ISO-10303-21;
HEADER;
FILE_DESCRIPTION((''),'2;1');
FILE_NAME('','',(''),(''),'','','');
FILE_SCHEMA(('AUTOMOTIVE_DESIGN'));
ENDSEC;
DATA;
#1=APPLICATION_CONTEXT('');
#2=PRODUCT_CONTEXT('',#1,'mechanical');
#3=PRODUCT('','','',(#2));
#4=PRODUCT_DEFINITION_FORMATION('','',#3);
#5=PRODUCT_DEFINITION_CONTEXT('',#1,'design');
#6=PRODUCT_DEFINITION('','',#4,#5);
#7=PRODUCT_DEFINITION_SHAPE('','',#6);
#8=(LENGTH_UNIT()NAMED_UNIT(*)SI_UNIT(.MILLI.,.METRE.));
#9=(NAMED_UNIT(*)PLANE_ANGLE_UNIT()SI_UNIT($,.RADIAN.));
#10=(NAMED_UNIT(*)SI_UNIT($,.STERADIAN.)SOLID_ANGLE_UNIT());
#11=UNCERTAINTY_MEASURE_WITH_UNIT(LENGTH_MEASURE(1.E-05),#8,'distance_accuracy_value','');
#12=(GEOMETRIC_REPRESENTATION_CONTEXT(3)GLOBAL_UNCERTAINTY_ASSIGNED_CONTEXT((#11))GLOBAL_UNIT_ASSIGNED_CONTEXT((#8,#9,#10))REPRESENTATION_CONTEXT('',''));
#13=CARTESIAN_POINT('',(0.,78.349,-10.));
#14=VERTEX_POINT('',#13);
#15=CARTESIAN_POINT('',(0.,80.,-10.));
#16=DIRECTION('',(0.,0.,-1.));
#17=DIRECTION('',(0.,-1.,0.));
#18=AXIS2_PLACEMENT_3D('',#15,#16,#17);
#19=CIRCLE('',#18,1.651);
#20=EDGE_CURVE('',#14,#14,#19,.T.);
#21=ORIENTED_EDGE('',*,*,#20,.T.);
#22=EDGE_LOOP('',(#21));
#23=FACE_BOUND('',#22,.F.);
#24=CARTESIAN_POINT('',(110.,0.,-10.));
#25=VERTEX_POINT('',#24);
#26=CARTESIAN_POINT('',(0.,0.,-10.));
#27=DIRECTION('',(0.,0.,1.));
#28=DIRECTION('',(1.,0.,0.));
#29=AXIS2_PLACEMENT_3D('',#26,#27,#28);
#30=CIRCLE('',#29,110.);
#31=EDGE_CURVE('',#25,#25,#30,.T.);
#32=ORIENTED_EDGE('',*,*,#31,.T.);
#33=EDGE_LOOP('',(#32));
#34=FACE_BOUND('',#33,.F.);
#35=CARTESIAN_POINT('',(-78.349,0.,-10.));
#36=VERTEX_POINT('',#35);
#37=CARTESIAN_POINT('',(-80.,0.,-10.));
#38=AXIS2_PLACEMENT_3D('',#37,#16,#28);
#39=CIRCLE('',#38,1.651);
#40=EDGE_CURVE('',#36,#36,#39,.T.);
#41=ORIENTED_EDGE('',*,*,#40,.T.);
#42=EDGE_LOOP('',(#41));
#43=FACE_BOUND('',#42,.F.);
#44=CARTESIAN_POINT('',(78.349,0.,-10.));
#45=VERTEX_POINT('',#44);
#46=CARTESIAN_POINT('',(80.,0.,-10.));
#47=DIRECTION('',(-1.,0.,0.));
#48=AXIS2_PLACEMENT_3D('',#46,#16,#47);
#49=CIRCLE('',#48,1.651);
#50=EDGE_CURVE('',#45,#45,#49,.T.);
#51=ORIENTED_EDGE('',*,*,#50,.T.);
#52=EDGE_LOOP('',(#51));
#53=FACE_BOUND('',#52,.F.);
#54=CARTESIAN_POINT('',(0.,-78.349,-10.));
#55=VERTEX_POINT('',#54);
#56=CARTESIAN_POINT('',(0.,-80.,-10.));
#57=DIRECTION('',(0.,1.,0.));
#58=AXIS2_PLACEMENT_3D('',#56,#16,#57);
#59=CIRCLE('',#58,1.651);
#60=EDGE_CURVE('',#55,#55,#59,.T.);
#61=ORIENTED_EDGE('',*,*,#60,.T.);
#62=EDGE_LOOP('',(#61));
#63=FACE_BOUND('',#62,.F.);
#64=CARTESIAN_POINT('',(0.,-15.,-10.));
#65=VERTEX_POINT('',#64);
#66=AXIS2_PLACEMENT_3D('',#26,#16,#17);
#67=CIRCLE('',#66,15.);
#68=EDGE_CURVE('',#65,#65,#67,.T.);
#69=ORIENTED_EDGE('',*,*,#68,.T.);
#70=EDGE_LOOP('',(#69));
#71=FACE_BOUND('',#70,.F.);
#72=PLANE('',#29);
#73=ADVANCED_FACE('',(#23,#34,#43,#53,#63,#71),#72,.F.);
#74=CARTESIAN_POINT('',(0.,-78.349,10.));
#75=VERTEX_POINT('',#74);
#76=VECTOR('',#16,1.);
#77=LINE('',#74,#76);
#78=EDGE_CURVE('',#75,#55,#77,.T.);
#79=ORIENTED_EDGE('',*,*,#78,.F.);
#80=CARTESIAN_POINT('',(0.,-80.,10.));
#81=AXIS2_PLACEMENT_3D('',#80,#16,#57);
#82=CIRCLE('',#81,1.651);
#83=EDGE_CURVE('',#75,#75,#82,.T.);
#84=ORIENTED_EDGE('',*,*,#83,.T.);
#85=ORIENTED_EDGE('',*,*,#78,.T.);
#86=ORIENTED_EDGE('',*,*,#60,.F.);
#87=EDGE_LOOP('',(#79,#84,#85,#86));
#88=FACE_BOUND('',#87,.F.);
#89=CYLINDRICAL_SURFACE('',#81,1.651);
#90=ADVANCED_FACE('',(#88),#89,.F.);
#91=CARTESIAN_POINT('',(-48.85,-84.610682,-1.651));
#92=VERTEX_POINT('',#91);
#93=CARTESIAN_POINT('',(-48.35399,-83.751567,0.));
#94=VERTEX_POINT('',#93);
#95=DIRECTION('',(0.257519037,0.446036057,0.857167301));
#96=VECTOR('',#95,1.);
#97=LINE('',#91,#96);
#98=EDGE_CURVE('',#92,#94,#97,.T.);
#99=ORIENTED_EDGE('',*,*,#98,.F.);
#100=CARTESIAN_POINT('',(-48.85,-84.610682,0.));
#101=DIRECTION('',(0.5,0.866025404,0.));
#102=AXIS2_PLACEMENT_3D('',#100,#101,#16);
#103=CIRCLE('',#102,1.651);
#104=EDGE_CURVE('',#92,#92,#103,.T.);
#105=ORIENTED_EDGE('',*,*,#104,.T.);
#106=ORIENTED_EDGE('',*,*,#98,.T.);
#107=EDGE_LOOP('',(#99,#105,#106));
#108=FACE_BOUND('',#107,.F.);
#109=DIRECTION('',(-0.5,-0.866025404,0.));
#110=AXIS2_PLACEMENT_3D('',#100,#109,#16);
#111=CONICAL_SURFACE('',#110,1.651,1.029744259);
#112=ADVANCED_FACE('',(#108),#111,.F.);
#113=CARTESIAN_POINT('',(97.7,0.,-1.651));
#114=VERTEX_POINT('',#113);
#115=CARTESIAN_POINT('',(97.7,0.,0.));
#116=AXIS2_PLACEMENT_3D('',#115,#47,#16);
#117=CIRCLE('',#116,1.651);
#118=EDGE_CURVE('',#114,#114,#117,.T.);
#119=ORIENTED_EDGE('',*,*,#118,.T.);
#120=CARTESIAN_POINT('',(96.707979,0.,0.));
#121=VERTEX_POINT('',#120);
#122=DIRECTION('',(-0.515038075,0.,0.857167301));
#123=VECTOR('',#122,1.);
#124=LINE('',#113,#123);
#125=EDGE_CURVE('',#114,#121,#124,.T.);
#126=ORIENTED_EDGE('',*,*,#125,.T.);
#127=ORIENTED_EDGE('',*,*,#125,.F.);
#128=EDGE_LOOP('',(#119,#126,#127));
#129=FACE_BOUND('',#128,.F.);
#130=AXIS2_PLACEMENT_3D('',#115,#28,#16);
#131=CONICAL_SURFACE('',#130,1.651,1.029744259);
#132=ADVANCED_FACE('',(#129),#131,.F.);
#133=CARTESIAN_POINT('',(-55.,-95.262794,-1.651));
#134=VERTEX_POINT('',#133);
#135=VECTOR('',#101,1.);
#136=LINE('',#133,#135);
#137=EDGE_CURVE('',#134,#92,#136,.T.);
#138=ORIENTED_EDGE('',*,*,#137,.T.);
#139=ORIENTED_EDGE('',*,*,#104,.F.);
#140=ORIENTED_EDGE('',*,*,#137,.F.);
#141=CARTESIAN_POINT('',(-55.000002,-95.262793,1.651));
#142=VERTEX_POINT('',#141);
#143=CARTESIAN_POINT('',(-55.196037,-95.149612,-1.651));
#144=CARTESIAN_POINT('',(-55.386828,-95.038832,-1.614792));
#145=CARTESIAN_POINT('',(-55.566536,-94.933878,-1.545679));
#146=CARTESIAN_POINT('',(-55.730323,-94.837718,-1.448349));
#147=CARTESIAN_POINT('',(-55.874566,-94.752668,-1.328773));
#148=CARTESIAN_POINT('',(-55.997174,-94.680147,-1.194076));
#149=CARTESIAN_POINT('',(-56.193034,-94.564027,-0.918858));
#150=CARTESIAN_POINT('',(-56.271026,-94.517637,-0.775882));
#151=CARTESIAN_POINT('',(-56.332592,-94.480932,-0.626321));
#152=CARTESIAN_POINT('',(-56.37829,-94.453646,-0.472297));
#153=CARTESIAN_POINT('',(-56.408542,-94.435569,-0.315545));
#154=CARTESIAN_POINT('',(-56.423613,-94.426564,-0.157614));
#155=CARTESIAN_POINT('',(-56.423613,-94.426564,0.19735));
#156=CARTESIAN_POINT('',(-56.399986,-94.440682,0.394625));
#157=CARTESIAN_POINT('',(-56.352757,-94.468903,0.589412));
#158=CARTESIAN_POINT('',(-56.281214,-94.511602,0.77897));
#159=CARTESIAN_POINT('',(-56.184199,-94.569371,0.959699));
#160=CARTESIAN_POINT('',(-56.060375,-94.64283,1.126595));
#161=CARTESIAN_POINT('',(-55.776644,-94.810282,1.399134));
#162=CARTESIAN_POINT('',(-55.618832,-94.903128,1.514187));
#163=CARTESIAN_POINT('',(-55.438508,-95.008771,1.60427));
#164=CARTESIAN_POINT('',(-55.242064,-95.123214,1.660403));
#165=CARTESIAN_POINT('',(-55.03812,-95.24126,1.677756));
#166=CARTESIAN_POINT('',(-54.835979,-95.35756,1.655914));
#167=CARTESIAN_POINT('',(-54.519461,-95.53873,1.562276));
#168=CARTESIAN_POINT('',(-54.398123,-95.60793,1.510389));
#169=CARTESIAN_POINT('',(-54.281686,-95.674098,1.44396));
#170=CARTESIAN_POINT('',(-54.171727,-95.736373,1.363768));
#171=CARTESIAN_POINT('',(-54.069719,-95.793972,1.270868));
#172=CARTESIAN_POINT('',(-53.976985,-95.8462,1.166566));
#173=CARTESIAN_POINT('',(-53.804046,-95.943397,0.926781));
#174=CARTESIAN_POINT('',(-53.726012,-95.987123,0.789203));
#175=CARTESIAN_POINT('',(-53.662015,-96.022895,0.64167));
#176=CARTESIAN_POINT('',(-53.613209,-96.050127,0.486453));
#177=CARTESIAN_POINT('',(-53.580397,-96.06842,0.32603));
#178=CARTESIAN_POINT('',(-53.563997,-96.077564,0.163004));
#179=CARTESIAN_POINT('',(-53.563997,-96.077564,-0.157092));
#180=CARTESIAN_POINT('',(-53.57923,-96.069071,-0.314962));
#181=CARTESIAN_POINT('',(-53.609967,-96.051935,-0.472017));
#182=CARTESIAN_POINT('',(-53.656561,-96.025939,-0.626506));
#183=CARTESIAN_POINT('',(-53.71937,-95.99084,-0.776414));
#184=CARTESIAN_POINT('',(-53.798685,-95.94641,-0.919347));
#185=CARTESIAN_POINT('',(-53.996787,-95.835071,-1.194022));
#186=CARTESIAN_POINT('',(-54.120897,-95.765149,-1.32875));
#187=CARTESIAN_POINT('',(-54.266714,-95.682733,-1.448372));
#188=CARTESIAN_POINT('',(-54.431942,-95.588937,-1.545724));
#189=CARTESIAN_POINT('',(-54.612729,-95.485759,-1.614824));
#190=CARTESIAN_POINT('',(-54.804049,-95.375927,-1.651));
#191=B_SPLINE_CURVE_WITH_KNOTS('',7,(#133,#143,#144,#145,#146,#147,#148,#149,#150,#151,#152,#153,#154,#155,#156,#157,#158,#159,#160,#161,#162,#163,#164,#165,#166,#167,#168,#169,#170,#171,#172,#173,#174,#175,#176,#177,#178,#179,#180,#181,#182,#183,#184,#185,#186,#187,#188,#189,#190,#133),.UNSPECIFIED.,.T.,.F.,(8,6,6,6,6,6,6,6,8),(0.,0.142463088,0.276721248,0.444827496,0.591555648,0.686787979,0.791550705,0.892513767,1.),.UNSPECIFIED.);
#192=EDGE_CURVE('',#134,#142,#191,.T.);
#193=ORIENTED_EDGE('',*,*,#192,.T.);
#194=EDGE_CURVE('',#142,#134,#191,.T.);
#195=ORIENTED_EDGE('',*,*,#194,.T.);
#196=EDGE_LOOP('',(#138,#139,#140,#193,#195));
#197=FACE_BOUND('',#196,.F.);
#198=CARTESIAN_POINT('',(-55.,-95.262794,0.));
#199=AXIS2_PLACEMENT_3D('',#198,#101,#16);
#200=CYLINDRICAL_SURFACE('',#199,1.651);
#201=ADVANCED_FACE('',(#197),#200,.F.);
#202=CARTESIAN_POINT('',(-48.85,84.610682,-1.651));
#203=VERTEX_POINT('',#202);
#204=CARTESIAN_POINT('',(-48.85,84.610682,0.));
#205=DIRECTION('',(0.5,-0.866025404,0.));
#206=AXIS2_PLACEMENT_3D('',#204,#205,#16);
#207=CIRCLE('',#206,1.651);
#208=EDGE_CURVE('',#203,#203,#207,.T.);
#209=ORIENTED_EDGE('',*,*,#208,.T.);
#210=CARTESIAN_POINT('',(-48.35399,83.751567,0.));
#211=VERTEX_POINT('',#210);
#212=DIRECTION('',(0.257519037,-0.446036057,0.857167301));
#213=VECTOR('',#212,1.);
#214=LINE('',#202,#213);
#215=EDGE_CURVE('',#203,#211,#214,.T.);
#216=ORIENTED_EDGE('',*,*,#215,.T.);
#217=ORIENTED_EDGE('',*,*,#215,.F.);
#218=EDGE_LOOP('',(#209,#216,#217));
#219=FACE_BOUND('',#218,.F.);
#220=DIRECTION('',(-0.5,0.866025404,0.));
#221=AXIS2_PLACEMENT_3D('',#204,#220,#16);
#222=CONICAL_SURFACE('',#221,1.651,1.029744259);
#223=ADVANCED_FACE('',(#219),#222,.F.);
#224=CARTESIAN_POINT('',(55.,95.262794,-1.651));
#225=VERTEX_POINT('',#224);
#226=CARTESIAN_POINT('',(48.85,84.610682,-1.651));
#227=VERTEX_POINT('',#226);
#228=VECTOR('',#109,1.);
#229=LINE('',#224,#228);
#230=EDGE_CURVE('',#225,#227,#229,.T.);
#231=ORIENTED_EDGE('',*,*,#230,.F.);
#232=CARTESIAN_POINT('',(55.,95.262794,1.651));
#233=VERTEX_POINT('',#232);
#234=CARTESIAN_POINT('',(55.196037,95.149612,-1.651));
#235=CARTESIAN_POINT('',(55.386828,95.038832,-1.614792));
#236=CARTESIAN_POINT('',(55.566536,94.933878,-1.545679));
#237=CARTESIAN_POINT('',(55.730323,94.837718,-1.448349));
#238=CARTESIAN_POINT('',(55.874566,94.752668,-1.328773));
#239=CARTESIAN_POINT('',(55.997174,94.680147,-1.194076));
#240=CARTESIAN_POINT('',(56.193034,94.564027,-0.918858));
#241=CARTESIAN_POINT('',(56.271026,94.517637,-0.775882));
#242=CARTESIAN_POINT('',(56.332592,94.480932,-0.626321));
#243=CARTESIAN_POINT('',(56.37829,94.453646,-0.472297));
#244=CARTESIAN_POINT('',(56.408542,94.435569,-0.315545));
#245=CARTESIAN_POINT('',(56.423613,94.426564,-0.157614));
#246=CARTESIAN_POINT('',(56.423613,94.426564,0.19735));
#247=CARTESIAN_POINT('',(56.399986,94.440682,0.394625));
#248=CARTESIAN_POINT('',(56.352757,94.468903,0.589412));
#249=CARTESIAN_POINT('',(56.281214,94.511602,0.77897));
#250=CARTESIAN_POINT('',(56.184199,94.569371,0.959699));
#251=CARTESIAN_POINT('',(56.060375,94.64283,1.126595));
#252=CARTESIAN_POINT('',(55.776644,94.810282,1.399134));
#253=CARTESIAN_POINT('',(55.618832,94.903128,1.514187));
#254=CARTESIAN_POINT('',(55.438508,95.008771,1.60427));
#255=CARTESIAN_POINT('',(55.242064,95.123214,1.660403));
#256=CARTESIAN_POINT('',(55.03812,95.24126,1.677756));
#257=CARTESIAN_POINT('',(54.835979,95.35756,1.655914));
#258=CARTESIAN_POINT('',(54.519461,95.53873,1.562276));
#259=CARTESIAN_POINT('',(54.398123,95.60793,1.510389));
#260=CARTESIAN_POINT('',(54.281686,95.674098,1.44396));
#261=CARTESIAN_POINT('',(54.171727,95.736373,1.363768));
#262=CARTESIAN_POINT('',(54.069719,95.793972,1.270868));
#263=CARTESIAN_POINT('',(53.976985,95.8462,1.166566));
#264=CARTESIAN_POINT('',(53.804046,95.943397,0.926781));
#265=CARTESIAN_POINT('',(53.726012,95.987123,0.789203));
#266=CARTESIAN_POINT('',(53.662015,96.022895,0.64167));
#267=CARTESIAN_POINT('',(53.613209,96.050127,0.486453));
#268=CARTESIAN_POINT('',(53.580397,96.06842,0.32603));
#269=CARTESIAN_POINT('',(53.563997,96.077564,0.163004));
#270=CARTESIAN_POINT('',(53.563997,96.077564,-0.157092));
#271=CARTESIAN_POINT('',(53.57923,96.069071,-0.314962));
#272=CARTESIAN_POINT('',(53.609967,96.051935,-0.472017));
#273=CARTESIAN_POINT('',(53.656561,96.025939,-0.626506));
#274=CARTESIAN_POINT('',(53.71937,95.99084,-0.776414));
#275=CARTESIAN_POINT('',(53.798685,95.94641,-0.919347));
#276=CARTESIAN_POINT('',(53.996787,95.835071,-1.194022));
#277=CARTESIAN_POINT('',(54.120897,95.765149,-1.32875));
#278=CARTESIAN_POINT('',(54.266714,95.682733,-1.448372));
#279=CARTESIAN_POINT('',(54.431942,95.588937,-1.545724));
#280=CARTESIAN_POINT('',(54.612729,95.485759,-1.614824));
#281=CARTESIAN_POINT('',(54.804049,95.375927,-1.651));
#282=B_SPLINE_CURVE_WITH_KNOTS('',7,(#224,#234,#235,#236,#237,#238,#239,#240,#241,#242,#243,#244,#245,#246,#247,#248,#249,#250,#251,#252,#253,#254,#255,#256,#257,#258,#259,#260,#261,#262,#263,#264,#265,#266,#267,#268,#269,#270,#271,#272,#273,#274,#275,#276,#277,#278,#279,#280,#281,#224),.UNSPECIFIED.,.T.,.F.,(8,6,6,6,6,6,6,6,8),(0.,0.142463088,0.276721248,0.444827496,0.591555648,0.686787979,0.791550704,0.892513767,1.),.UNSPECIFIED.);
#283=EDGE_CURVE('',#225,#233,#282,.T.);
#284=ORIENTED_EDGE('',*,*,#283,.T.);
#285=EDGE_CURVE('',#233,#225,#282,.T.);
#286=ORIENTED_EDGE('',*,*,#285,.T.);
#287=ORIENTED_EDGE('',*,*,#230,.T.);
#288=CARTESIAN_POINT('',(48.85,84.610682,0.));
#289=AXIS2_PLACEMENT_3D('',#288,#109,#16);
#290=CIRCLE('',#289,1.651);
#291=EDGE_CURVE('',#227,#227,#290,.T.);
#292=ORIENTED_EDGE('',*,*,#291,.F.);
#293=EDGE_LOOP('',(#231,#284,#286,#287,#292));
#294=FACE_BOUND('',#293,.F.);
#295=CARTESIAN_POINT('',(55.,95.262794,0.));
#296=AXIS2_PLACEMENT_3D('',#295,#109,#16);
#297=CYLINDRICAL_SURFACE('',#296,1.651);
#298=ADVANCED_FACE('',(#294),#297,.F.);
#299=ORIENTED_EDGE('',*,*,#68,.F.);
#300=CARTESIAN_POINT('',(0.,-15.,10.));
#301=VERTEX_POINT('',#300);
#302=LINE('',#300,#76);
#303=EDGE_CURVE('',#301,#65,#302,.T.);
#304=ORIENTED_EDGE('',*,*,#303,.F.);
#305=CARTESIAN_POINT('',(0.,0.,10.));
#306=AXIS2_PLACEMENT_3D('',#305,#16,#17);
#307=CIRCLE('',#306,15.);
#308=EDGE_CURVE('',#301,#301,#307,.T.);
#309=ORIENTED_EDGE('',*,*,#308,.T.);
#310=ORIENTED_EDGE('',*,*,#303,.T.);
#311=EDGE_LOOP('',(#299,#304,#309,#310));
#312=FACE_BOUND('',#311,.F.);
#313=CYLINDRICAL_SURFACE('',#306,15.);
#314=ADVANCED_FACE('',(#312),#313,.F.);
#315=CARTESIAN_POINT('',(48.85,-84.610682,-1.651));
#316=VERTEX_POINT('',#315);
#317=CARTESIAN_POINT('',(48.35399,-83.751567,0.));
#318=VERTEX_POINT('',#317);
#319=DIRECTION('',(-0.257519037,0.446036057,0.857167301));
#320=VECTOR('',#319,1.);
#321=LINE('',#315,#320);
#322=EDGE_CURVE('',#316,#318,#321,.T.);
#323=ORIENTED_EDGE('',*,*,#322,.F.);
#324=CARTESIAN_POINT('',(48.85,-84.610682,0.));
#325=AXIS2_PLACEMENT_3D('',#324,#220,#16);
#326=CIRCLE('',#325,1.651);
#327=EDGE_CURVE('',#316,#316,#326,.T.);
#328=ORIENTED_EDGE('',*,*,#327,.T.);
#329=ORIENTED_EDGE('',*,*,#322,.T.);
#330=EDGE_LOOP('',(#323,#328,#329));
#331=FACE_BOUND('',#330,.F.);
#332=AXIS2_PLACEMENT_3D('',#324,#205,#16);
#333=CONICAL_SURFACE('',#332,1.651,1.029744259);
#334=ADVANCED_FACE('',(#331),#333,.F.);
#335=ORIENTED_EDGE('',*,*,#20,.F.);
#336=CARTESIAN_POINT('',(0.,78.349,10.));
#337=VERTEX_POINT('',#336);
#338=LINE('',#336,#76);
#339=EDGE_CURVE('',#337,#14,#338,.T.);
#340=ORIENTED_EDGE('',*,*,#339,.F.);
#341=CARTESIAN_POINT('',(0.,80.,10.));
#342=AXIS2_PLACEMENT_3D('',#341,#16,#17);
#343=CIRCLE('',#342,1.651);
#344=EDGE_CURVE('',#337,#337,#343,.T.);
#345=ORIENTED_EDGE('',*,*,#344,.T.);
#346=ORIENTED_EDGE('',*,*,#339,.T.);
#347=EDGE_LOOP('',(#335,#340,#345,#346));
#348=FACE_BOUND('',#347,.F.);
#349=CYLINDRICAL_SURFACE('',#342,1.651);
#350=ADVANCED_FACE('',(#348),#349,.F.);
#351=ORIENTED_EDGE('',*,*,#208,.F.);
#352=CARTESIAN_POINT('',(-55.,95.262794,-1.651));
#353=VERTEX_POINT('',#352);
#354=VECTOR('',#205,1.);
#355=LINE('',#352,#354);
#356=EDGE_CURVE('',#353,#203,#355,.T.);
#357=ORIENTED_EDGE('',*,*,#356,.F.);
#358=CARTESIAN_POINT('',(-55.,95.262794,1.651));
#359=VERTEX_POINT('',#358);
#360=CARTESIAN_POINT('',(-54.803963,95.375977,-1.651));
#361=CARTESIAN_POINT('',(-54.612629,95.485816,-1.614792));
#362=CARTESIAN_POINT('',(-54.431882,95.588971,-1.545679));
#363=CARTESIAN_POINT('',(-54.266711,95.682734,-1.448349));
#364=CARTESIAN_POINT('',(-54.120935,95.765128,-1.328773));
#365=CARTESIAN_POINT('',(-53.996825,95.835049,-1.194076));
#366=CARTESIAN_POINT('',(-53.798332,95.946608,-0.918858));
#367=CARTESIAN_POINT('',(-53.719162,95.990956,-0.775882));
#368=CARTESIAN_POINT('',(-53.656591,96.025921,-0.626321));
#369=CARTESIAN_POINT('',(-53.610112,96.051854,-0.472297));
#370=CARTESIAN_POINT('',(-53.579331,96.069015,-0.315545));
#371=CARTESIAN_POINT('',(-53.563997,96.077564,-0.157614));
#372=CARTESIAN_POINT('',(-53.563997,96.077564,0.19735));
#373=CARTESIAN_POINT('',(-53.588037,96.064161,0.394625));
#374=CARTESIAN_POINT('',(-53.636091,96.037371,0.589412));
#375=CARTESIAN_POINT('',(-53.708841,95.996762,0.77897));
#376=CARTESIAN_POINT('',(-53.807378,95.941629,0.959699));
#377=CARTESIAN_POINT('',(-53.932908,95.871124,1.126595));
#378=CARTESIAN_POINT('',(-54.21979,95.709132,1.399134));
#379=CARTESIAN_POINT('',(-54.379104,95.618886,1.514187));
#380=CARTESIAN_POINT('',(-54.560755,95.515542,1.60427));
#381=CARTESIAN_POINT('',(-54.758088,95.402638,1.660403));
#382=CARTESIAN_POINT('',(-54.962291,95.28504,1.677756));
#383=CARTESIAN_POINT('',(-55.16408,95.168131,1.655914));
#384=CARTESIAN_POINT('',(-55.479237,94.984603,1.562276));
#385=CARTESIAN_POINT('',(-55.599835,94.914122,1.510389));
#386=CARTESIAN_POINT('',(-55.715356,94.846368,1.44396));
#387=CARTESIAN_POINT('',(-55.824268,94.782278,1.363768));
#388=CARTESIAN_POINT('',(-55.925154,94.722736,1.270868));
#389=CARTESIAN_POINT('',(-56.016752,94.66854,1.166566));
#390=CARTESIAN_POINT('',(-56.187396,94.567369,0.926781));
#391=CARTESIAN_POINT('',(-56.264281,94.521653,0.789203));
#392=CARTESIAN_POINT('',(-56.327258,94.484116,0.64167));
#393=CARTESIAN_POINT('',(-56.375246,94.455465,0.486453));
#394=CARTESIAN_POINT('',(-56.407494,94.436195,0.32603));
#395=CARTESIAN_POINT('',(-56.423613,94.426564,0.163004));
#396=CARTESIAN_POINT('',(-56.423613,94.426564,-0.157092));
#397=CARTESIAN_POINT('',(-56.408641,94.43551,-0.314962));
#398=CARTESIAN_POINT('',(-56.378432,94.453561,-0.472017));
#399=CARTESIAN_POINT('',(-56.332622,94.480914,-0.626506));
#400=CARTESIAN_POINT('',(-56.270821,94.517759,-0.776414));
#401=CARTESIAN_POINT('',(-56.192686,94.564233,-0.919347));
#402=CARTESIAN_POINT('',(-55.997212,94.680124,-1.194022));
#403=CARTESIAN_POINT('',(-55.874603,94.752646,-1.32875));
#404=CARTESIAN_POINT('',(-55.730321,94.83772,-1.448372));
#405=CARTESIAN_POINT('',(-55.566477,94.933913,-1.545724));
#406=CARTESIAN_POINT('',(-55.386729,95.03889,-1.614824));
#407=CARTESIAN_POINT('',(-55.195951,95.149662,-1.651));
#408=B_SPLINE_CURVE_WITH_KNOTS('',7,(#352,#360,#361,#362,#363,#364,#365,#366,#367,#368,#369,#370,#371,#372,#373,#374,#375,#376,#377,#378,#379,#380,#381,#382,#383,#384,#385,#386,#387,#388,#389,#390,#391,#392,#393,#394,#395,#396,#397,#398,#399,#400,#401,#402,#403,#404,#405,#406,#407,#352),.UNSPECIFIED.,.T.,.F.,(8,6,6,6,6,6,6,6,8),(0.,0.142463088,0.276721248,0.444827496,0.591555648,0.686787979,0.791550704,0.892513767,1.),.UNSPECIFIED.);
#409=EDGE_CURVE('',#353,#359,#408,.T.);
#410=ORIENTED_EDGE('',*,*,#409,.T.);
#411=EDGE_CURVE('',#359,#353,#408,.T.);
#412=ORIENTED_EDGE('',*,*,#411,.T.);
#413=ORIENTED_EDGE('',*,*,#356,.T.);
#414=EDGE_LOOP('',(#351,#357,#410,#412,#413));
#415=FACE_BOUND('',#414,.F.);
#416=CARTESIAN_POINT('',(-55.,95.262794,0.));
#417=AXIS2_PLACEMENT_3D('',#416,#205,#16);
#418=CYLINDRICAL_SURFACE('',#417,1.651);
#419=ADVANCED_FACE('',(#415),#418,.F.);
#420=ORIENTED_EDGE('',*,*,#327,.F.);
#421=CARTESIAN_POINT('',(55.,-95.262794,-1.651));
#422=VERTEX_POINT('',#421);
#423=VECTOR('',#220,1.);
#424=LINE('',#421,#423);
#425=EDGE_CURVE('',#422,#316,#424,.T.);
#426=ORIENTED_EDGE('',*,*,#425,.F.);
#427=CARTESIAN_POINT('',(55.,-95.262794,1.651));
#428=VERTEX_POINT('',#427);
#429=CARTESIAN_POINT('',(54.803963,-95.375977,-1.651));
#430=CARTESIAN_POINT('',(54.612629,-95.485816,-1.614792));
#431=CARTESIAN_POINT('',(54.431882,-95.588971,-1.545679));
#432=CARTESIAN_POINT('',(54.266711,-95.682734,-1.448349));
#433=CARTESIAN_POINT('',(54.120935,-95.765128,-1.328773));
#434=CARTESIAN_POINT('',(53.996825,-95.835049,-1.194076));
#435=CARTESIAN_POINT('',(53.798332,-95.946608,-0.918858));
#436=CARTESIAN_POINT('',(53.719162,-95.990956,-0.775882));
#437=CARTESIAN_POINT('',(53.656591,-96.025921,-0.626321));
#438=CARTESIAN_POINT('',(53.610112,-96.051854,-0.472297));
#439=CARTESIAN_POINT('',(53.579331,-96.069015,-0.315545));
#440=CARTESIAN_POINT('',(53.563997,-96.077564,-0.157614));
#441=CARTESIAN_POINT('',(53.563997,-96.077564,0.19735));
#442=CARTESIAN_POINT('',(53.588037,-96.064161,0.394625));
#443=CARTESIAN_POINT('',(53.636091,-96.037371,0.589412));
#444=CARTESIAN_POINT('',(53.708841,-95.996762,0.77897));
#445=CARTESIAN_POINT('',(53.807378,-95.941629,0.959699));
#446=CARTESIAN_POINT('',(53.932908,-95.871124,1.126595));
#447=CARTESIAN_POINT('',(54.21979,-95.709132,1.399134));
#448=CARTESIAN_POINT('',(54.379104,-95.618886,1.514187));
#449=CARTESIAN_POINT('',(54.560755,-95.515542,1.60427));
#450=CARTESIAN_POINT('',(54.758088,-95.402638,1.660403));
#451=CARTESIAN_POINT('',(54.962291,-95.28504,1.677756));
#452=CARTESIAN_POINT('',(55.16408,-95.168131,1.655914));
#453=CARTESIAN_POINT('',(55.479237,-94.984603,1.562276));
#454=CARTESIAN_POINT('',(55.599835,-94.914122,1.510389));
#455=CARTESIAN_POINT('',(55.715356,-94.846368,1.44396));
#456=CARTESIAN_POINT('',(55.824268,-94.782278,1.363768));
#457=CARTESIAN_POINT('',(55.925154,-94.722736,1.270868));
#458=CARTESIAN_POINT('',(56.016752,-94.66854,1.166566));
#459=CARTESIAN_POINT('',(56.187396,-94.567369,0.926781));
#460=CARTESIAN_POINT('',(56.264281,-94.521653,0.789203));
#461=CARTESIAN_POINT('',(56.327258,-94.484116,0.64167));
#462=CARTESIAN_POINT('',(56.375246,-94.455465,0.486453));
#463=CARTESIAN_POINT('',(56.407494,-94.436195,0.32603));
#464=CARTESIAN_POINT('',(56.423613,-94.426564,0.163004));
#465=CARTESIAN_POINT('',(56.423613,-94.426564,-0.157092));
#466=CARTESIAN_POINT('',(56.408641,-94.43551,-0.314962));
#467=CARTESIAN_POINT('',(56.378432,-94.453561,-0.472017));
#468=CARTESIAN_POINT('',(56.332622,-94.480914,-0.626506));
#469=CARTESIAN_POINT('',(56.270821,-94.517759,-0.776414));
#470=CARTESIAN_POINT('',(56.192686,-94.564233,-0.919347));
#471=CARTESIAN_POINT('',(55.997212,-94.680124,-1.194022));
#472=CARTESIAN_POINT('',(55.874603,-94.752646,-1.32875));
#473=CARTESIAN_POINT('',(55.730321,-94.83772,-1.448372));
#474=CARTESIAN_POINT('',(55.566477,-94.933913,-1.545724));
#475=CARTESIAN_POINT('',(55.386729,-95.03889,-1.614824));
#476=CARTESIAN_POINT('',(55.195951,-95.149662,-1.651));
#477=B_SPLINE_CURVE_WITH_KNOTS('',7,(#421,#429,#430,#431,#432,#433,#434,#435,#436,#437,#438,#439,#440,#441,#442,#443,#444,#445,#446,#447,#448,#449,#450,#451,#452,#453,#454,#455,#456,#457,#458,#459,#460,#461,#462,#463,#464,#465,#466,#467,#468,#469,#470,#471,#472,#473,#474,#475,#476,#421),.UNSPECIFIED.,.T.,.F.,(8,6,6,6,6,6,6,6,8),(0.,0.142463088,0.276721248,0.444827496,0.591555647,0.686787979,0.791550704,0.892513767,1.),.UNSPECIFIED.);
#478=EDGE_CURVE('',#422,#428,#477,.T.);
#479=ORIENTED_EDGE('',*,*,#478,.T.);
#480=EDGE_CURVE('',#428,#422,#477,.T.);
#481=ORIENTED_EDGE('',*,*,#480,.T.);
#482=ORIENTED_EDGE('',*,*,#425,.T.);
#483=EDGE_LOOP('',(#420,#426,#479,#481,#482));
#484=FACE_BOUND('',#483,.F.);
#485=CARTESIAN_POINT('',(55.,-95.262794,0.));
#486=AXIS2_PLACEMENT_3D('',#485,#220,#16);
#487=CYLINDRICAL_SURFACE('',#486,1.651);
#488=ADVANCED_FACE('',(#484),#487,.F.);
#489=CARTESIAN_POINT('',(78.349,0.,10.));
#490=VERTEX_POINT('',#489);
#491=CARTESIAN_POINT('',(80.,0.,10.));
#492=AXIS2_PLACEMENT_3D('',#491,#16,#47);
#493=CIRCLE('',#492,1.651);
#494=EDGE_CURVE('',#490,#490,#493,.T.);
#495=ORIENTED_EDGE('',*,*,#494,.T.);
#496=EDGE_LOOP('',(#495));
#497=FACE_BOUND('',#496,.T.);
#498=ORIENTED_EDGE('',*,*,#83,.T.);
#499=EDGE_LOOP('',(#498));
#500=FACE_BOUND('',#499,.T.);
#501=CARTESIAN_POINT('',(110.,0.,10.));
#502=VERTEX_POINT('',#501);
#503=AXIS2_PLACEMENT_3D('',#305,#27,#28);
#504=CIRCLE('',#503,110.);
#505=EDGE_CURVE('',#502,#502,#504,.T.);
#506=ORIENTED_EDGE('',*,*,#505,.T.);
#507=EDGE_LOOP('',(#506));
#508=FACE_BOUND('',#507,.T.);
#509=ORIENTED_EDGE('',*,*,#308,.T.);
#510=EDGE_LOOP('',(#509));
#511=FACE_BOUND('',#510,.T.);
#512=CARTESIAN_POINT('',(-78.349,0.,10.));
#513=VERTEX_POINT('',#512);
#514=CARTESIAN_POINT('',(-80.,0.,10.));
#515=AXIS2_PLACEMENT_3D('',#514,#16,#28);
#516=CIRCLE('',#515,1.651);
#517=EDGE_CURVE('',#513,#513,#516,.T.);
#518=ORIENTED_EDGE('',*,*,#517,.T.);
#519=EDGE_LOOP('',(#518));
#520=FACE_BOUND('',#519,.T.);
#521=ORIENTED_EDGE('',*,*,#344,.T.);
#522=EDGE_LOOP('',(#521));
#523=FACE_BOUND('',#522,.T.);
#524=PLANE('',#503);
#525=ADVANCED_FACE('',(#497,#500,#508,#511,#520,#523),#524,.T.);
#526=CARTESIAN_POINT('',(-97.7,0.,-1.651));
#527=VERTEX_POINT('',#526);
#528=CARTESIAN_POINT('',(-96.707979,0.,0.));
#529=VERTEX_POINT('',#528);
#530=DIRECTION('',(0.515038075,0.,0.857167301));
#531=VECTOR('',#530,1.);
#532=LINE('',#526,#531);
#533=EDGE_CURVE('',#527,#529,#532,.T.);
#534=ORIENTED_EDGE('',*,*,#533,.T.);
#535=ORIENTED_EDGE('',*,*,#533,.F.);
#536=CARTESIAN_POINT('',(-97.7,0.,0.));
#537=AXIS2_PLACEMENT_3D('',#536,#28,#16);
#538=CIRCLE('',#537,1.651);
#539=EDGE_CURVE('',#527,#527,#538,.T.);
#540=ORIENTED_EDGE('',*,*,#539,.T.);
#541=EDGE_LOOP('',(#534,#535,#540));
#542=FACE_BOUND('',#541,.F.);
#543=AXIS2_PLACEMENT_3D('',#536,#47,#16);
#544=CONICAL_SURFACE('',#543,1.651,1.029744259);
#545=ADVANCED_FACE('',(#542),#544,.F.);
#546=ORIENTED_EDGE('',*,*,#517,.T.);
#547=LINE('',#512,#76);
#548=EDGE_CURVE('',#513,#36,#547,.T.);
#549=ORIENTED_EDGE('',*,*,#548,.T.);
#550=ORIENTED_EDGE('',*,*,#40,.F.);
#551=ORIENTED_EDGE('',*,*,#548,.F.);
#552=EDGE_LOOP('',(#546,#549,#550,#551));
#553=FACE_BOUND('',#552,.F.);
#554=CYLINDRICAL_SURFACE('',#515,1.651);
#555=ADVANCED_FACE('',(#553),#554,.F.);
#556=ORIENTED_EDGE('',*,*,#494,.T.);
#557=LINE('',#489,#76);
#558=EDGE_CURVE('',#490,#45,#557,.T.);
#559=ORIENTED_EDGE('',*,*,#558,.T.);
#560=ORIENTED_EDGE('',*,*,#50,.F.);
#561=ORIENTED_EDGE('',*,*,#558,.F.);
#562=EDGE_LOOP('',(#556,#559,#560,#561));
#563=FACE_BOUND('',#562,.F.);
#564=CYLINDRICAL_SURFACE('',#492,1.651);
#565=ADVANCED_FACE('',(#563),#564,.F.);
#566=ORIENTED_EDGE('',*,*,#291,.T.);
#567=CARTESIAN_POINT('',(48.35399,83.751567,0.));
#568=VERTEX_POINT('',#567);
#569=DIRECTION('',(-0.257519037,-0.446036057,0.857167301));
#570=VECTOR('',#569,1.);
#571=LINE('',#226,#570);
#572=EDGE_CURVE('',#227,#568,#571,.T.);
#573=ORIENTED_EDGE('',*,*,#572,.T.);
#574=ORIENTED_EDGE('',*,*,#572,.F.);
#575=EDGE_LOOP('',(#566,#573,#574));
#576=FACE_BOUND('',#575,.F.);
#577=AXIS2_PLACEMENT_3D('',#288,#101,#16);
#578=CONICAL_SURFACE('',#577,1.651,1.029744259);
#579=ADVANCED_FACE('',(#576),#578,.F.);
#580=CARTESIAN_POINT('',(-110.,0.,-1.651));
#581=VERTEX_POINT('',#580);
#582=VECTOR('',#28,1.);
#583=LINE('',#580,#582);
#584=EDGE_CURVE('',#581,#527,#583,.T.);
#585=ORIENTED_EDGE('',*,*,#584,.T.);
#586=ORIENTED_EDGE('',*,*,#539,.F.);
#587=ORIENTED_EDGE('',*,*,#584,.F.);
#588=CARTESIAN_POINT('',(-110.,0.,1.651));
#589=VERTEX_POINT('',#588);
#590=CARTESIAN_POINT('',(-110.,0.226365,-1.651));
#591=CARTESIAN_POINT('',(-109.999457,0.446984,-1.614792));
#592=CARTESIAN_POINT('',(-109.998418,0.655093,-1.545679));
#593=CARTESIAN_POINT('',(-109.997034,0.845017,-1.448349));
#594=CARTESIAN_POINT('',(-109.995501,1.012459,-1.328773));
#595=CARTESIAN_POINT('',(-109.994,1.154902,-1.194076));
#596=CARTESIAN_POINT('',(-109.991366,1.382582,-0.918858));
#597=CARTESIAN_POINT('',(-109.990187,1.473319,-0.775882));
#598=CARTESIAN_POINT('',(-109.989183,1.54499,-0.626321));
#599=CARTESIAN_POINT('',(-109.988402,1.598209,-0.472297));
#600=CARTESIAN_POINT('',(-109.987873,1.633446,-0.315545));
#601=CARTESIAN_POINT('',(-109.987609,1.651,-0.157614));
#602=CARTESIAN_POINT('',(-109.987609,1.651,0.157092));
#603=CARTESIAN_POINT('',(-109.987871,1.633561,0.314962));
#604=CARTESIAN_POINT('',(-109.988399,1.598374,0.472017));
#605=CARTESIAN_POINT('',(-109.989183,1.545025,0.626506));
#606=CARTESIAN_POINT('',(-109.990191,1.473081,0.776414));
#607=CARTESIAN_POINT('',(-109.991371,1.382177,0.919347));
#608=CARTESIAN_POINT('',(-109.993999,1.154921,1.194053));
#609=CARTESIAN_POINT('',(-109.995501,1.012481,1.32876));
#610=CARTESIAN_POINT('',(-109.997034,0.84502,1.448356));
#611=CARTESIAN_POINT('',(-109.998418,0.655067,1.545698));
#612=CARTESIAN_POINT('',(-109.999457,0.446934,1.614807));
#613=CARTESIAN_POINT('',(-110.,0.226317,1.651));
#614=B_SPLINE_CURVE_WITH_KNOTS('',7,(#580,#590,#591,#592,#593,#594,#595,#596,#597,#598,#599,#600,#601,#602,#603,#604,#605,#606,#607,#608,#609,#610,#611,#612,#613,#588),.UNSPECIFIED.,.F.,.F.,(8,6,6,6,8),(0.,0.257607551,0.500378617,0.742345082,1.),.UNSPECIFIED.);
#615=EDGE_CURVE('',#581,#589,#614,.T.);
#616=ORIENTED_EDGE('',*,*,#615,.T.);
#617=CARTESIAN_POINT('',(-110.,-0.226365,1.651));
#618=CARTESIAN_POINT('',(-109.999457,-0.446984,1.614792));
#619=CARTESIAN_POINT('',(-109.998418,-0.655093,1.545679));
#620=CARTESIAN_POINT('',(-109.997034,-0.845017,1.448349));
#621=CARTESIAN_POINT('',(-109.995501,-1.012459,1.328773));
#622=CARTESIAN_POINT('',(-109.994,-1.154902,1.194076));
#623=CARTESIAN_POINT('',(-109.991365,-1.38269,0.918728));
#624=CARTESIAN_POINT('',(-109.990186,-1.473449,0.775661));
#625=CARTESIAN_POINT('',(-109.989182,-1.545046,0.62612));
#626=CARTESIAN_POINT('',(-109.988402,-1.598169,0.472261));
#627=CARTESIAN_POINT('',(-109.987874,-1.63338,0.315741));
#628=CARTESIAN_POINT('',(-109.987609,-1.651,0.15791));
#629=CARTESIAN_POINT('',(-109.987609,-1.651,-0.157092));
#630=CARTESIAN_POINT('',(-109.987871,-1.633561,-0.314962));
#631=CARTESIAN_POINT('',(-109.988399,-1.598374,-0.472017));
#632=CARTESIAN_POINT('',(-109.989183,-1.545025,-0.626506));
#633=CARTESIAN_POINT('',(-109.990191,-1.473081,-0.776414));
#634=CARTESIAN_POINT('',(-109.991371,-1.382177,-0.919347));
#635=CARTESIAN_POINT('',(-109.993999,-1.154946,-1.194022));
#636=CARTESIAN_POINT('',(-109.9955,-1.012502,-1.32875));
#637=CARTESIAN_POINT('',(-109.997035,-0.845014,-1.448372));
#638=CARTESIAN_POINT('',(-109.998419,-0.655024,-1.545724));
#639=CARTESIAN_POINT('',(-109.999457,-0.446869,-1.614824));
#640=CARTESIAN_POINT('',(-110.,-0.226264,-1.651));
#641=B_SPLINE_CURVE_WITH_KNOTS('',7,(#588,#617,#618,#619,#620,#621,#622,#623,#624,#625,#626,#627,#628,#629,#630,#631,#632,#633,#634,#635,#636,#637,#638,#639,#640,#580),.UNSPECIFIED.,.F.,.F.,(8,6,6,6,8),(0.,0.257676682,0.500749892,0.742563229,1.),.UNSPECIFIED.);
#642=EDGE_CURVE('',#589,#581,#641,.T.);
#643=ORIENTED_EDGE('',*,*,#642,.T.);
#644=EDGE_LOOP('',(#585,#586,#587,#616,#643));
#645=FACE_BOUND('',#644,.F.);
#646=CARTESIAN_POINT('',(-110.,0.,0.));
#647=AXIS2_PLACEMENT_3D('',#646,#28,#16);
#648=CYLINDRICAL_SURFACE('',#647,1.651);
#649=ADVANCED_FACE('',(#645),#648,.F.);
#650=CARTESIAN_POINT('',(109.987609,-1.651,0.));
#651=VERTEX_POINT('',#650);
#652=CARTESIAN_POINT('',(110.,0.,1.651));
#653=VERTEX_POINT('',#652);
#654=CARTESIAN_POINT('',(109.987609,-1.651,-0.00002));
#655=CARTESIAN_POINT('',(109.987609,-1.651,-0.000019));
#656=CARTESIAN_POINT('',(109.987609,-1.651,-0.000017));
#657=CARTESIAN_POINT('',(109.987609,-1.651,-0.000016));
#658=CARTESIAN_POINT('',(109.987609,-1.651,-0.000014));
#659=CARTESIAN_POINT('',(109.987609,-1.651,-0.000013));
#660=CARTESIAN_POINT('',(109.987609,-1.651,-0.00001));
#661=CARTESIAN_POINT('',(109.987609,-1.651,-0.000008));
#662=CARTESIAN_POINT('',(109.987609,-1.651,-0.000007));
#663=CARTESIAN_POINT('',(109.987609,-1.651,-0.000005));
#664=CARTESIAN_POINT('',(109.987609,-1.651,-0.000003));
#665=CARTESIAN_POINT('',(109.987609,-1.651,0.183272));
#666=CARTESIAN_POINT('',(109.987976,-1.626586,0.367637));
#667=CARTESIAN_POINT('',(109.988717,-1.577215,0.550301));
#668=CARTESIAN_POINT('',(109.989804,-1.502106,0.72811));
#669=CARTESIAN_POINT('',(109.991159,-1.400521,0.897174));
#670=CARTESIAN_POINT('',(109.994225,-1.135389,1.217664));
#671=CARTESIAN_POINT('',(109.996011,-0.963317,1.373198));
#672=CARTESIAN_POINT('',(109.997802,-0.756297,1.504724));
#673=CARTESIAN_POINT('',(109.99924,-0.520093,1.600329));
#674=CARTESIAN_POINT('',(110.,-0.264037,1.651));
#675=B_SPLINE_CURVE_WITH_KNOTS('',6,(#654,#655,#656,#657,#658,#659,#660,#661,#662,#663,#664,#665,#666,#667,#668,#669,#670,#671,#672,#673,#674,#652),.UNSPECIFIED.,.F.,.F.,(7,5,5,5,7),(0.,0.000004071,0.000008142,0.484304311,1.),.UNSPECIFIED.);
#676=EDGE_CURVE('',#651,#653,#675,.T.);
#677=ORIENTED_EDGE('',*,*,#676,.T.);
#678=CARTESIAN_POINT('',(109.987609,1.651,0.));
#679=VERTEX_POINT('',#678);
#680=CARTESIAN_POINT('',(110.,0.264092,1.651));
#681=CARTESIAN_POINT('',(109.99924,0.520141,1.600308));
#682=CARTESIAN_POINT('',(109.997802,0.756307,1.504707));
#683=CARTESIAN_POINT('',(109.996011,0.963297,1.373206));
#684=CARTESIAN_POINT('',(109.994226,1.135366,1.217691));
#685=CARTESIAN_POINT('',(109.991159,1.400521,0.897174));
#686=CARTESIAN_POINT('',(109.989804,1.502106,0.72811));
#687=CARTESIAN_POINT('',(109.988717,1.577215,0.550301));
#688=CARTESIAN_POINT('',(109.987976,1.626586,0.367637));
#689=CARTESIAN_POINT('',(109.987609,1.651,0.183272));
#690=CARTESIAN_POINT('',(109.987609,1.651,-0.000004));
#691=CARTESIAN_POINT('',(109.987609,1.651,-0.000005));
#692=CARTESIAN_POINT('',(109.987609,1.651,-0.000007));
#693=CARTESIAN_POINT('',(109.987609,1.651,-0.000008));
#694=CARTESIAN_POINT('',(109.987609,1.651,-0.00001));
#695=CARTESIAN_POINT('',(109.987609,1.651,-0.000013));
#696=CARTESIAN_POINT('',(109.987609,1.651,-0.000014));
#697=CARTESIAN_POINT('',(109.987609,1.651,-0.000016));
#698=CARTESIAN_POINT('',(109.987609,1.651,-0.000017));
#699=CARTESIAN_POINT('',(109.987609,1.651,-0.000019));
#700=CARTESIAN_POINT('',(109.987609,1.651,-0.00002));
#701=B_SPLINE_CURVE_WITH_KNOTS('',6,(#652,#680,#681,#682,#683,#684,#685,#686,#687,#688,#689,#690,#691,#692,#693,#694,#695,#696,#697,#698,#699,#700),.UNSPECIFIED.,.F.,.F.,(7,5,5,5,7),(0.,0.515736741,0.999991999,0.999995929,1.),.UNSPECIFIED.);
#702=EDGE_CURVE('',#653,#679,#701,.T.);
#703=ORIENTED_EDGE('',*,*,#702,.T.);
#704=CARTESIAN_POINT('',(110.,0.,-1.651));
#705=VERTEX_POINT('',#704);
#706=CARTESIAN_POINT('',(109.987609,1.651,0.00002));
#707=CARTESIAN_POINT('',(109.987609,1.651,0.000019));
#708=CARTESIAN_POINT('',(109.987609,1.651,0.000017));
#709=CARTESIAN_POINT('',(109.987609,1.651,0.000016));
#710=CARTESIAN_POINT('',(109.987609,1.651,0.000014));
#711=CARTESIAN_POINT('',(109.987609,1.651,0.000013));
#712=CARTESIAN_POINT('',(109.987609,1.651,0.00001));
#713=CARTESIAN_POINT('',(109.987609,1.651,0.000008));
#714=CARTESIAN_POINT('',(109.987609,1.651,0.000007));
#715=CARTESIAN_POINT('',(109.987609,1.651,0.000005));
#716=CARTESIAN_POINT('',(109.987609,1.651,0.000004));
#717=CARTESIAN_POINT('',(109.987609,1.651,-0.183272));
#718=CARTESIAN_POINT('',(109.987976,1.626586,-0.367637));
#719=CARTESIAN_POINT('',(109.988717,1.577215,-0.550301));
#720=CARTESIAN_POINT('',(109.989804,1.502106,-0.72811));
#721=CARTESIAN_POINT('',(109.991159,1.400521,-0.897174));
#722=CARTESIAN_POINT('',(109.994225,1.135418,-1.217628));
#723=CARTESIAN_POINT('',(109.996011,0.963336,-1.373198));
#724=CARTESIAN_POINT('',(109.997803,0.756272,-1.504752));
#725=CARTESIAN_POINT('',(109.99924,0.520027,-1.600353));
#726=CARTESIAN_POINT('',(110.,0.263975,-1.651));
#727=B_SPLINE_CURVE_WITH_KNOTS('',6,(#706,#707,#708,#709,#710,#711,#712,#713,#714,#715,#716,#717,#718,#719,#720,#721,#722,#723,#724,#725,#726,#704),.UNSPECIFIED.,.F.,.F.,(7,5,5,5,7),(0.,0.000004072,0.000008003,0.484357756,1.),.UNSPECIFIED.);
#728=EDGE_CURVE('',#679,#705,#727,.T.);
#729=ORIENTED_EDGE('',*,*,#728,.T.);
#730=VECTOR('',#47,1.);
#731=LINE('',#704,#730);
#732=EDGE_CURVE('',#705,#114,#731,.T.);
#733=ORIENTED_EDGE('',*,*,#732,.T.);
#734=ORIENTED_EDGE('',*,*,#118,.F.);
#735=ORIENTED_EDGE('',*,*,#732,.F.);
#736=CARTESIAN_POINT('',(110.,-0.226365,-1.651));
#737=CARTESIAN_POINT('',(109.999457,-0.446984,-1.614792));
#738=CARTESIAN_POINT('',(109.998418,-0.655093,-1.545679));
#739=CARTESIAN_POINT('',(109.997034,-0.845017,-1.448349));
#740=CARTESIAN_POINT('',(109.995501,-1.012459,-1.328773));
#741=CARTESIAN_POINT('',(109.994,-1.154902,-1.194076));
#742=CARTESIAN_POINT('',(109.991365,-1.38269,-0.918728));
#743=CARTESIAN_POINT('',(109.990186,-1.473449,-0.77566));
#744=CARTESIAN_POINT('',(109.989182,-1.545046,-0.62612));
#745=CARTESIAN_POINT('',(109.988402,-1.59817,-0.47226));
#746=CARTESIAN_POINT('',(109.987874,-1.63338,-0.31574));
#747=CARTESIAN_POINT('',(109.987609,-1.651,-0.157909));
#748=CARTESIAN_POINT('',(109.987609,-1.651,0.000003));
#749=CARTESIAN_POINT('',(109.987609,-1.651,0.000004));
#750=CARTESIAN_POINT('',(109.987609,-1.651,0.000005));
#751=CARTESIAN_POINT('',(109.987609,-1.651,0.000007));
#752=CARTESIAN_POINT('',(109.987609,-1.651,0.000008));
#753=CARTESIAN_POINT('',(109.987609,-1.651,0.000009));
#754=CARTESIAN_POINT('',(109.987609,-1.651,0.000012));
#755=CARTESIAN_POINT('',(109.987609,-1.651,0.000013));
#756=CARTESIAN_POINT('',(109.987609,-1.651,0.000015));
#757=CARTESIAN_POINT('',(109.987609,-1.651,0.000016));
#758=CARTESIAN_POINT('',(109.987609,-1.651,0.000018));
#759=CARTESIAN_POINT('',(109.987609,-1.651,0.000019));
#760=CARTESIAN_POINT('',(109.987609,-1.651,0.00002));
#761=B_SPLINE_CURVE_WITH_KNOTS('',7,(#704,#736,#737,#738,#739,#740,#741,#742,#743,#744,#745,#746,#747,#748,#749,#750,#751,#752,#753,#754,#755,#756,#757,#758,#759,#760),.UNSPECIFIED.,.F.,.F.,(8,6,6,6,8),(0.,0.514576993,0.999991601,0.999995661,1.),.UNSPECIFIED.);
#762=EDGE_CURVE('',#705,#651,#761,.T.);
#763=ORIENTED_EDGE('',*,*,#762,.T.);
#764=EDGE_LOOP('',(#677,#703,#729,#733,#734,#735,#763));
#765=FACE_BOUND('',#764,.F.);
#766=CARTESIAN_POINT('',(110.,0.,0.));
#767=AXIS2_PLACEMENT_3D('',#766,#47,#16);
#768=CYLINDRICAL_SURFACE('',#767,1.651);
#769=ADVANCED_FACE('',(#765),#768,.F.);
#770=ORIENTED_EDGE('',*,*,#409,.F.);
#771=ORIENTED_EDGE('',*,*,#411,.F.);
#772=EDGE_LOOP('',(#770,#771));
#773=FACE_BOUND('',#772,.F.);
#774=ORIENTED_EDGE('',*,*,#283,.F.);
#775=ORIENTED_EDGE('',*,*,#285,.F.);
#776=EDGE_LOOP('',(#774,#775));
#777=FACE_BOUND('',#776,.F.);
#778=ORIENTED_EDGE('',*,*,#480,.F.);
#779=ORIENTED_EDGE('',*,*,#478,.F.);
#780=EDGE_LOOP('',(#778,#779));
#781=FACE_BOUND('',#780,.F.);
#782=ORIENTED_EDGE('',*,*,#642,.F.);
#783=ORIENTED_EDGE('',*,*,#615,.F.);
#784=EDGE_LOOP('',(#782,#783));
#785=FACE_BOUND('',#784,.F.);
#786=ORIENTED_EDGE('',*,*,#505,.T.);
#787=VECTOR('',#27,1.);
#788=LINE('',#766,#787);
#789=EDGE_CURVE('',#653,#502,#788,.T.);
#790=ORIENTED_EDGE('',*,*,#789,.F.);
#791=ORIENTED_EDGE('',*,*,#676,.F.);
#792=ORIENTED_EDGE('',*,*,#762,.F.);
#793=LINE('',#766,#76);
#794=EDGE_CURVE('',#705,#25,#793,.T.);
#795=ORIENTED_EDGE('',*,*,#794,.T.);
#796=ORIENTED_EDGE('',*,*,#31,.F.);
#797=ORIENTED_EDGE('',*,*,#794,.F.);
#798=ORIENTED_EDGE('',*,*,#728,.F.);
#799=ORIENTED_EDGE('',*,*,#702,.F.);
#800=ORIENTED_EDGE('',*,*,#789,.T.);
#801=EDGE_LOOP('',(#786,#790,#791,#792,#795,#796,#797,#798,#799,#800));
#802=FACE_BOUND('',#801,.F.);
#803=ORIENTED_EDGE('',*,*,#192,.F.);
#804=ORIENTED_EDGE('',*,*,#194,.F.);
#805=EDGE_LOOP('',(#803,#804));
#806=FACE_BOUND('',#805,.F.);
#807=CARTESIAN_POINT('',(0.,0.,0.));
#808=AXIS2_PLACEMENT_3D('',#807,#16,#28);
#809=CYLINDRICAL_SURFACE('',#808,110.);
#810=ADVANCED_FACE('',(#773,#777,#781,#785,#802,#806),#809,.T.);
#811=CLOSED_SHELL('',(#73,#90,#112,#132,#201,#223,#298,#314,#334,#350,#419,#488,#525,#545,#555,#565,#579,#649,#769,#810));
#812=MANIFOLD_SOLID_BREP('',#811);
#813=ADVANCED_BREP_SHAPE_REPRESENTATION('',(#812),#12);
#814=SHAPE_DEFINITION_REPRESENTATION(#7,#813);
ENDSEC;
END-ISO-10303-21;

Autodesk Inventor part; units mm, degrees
ref_plane "XZ Plane" through (0, 0, 0) normal (0, 1, 0) x (-1, 0, 0)
ref_plane "XY Plane" through (0, 0, 0) normal (0, 0, 1) x (1, 0, 0)
sketch "Sketch1" plane through (0, 0, 0) normal (0, 0, 1) x (1, 0, 0)
  circle A0 centre (0, 0) radius 110
  dimension "d0" = 220
extrude "Extrusion1" add sketch "Sketch1" along normal mid plane 20
sketch "Sketch3" plane through (0, 0, 10) normal (0, 0, 1) x (1, 0, 0)
  point P0 (0, 0)
  point P1 (0, 0)
hole "Hole1" at (0, 0, 10) direction (0, 0, -1) diameter 30 end through all
ref_plane "Work Plane1" through (110, 0, 0) normal (1, 0, 0) x (0, 1, 0)
sketch "Sketch4" plane through (110, 0, 0) normal (1, 0, 0) x (0, 1, 0)
  point P0 (0, 0)
  point P1 (0, 0)
hole "Hole2" at (110, 0, 0) direction (-1, 0, 0) diameter 3.302 depth 12.3 tip angle 118 thread size "8-32 UNC" class "2B" standard "ANSI Unified Screw Threads"
pattern_circular "Circular Pattern1" count 6 over 360 about axis through (0, 0, -10) along (0, 0, 1) of "Hole2"
sketch "Sketch5" plane through (0, 0, 10) normal (0, 0, 1) x (1, 0, 0)
  point P0 (0, 0)
  point P1 (0, 80)
  dimension "d21" = 80
hole "Hole3" at (0, 80, 10) direction (0, 0, -1) diameter 3.302 end through all thread size "8-32 UNC" class "2B" standard "ANSI Unified Screw Threads"
pattern_circular "Circular Pattern2" count 4 over 360 about axis through (0, 0, -10) along (0, 0, 1) of "Hole3"
properties part number "Top_Lever Centre" material "Wood (Oak)"
